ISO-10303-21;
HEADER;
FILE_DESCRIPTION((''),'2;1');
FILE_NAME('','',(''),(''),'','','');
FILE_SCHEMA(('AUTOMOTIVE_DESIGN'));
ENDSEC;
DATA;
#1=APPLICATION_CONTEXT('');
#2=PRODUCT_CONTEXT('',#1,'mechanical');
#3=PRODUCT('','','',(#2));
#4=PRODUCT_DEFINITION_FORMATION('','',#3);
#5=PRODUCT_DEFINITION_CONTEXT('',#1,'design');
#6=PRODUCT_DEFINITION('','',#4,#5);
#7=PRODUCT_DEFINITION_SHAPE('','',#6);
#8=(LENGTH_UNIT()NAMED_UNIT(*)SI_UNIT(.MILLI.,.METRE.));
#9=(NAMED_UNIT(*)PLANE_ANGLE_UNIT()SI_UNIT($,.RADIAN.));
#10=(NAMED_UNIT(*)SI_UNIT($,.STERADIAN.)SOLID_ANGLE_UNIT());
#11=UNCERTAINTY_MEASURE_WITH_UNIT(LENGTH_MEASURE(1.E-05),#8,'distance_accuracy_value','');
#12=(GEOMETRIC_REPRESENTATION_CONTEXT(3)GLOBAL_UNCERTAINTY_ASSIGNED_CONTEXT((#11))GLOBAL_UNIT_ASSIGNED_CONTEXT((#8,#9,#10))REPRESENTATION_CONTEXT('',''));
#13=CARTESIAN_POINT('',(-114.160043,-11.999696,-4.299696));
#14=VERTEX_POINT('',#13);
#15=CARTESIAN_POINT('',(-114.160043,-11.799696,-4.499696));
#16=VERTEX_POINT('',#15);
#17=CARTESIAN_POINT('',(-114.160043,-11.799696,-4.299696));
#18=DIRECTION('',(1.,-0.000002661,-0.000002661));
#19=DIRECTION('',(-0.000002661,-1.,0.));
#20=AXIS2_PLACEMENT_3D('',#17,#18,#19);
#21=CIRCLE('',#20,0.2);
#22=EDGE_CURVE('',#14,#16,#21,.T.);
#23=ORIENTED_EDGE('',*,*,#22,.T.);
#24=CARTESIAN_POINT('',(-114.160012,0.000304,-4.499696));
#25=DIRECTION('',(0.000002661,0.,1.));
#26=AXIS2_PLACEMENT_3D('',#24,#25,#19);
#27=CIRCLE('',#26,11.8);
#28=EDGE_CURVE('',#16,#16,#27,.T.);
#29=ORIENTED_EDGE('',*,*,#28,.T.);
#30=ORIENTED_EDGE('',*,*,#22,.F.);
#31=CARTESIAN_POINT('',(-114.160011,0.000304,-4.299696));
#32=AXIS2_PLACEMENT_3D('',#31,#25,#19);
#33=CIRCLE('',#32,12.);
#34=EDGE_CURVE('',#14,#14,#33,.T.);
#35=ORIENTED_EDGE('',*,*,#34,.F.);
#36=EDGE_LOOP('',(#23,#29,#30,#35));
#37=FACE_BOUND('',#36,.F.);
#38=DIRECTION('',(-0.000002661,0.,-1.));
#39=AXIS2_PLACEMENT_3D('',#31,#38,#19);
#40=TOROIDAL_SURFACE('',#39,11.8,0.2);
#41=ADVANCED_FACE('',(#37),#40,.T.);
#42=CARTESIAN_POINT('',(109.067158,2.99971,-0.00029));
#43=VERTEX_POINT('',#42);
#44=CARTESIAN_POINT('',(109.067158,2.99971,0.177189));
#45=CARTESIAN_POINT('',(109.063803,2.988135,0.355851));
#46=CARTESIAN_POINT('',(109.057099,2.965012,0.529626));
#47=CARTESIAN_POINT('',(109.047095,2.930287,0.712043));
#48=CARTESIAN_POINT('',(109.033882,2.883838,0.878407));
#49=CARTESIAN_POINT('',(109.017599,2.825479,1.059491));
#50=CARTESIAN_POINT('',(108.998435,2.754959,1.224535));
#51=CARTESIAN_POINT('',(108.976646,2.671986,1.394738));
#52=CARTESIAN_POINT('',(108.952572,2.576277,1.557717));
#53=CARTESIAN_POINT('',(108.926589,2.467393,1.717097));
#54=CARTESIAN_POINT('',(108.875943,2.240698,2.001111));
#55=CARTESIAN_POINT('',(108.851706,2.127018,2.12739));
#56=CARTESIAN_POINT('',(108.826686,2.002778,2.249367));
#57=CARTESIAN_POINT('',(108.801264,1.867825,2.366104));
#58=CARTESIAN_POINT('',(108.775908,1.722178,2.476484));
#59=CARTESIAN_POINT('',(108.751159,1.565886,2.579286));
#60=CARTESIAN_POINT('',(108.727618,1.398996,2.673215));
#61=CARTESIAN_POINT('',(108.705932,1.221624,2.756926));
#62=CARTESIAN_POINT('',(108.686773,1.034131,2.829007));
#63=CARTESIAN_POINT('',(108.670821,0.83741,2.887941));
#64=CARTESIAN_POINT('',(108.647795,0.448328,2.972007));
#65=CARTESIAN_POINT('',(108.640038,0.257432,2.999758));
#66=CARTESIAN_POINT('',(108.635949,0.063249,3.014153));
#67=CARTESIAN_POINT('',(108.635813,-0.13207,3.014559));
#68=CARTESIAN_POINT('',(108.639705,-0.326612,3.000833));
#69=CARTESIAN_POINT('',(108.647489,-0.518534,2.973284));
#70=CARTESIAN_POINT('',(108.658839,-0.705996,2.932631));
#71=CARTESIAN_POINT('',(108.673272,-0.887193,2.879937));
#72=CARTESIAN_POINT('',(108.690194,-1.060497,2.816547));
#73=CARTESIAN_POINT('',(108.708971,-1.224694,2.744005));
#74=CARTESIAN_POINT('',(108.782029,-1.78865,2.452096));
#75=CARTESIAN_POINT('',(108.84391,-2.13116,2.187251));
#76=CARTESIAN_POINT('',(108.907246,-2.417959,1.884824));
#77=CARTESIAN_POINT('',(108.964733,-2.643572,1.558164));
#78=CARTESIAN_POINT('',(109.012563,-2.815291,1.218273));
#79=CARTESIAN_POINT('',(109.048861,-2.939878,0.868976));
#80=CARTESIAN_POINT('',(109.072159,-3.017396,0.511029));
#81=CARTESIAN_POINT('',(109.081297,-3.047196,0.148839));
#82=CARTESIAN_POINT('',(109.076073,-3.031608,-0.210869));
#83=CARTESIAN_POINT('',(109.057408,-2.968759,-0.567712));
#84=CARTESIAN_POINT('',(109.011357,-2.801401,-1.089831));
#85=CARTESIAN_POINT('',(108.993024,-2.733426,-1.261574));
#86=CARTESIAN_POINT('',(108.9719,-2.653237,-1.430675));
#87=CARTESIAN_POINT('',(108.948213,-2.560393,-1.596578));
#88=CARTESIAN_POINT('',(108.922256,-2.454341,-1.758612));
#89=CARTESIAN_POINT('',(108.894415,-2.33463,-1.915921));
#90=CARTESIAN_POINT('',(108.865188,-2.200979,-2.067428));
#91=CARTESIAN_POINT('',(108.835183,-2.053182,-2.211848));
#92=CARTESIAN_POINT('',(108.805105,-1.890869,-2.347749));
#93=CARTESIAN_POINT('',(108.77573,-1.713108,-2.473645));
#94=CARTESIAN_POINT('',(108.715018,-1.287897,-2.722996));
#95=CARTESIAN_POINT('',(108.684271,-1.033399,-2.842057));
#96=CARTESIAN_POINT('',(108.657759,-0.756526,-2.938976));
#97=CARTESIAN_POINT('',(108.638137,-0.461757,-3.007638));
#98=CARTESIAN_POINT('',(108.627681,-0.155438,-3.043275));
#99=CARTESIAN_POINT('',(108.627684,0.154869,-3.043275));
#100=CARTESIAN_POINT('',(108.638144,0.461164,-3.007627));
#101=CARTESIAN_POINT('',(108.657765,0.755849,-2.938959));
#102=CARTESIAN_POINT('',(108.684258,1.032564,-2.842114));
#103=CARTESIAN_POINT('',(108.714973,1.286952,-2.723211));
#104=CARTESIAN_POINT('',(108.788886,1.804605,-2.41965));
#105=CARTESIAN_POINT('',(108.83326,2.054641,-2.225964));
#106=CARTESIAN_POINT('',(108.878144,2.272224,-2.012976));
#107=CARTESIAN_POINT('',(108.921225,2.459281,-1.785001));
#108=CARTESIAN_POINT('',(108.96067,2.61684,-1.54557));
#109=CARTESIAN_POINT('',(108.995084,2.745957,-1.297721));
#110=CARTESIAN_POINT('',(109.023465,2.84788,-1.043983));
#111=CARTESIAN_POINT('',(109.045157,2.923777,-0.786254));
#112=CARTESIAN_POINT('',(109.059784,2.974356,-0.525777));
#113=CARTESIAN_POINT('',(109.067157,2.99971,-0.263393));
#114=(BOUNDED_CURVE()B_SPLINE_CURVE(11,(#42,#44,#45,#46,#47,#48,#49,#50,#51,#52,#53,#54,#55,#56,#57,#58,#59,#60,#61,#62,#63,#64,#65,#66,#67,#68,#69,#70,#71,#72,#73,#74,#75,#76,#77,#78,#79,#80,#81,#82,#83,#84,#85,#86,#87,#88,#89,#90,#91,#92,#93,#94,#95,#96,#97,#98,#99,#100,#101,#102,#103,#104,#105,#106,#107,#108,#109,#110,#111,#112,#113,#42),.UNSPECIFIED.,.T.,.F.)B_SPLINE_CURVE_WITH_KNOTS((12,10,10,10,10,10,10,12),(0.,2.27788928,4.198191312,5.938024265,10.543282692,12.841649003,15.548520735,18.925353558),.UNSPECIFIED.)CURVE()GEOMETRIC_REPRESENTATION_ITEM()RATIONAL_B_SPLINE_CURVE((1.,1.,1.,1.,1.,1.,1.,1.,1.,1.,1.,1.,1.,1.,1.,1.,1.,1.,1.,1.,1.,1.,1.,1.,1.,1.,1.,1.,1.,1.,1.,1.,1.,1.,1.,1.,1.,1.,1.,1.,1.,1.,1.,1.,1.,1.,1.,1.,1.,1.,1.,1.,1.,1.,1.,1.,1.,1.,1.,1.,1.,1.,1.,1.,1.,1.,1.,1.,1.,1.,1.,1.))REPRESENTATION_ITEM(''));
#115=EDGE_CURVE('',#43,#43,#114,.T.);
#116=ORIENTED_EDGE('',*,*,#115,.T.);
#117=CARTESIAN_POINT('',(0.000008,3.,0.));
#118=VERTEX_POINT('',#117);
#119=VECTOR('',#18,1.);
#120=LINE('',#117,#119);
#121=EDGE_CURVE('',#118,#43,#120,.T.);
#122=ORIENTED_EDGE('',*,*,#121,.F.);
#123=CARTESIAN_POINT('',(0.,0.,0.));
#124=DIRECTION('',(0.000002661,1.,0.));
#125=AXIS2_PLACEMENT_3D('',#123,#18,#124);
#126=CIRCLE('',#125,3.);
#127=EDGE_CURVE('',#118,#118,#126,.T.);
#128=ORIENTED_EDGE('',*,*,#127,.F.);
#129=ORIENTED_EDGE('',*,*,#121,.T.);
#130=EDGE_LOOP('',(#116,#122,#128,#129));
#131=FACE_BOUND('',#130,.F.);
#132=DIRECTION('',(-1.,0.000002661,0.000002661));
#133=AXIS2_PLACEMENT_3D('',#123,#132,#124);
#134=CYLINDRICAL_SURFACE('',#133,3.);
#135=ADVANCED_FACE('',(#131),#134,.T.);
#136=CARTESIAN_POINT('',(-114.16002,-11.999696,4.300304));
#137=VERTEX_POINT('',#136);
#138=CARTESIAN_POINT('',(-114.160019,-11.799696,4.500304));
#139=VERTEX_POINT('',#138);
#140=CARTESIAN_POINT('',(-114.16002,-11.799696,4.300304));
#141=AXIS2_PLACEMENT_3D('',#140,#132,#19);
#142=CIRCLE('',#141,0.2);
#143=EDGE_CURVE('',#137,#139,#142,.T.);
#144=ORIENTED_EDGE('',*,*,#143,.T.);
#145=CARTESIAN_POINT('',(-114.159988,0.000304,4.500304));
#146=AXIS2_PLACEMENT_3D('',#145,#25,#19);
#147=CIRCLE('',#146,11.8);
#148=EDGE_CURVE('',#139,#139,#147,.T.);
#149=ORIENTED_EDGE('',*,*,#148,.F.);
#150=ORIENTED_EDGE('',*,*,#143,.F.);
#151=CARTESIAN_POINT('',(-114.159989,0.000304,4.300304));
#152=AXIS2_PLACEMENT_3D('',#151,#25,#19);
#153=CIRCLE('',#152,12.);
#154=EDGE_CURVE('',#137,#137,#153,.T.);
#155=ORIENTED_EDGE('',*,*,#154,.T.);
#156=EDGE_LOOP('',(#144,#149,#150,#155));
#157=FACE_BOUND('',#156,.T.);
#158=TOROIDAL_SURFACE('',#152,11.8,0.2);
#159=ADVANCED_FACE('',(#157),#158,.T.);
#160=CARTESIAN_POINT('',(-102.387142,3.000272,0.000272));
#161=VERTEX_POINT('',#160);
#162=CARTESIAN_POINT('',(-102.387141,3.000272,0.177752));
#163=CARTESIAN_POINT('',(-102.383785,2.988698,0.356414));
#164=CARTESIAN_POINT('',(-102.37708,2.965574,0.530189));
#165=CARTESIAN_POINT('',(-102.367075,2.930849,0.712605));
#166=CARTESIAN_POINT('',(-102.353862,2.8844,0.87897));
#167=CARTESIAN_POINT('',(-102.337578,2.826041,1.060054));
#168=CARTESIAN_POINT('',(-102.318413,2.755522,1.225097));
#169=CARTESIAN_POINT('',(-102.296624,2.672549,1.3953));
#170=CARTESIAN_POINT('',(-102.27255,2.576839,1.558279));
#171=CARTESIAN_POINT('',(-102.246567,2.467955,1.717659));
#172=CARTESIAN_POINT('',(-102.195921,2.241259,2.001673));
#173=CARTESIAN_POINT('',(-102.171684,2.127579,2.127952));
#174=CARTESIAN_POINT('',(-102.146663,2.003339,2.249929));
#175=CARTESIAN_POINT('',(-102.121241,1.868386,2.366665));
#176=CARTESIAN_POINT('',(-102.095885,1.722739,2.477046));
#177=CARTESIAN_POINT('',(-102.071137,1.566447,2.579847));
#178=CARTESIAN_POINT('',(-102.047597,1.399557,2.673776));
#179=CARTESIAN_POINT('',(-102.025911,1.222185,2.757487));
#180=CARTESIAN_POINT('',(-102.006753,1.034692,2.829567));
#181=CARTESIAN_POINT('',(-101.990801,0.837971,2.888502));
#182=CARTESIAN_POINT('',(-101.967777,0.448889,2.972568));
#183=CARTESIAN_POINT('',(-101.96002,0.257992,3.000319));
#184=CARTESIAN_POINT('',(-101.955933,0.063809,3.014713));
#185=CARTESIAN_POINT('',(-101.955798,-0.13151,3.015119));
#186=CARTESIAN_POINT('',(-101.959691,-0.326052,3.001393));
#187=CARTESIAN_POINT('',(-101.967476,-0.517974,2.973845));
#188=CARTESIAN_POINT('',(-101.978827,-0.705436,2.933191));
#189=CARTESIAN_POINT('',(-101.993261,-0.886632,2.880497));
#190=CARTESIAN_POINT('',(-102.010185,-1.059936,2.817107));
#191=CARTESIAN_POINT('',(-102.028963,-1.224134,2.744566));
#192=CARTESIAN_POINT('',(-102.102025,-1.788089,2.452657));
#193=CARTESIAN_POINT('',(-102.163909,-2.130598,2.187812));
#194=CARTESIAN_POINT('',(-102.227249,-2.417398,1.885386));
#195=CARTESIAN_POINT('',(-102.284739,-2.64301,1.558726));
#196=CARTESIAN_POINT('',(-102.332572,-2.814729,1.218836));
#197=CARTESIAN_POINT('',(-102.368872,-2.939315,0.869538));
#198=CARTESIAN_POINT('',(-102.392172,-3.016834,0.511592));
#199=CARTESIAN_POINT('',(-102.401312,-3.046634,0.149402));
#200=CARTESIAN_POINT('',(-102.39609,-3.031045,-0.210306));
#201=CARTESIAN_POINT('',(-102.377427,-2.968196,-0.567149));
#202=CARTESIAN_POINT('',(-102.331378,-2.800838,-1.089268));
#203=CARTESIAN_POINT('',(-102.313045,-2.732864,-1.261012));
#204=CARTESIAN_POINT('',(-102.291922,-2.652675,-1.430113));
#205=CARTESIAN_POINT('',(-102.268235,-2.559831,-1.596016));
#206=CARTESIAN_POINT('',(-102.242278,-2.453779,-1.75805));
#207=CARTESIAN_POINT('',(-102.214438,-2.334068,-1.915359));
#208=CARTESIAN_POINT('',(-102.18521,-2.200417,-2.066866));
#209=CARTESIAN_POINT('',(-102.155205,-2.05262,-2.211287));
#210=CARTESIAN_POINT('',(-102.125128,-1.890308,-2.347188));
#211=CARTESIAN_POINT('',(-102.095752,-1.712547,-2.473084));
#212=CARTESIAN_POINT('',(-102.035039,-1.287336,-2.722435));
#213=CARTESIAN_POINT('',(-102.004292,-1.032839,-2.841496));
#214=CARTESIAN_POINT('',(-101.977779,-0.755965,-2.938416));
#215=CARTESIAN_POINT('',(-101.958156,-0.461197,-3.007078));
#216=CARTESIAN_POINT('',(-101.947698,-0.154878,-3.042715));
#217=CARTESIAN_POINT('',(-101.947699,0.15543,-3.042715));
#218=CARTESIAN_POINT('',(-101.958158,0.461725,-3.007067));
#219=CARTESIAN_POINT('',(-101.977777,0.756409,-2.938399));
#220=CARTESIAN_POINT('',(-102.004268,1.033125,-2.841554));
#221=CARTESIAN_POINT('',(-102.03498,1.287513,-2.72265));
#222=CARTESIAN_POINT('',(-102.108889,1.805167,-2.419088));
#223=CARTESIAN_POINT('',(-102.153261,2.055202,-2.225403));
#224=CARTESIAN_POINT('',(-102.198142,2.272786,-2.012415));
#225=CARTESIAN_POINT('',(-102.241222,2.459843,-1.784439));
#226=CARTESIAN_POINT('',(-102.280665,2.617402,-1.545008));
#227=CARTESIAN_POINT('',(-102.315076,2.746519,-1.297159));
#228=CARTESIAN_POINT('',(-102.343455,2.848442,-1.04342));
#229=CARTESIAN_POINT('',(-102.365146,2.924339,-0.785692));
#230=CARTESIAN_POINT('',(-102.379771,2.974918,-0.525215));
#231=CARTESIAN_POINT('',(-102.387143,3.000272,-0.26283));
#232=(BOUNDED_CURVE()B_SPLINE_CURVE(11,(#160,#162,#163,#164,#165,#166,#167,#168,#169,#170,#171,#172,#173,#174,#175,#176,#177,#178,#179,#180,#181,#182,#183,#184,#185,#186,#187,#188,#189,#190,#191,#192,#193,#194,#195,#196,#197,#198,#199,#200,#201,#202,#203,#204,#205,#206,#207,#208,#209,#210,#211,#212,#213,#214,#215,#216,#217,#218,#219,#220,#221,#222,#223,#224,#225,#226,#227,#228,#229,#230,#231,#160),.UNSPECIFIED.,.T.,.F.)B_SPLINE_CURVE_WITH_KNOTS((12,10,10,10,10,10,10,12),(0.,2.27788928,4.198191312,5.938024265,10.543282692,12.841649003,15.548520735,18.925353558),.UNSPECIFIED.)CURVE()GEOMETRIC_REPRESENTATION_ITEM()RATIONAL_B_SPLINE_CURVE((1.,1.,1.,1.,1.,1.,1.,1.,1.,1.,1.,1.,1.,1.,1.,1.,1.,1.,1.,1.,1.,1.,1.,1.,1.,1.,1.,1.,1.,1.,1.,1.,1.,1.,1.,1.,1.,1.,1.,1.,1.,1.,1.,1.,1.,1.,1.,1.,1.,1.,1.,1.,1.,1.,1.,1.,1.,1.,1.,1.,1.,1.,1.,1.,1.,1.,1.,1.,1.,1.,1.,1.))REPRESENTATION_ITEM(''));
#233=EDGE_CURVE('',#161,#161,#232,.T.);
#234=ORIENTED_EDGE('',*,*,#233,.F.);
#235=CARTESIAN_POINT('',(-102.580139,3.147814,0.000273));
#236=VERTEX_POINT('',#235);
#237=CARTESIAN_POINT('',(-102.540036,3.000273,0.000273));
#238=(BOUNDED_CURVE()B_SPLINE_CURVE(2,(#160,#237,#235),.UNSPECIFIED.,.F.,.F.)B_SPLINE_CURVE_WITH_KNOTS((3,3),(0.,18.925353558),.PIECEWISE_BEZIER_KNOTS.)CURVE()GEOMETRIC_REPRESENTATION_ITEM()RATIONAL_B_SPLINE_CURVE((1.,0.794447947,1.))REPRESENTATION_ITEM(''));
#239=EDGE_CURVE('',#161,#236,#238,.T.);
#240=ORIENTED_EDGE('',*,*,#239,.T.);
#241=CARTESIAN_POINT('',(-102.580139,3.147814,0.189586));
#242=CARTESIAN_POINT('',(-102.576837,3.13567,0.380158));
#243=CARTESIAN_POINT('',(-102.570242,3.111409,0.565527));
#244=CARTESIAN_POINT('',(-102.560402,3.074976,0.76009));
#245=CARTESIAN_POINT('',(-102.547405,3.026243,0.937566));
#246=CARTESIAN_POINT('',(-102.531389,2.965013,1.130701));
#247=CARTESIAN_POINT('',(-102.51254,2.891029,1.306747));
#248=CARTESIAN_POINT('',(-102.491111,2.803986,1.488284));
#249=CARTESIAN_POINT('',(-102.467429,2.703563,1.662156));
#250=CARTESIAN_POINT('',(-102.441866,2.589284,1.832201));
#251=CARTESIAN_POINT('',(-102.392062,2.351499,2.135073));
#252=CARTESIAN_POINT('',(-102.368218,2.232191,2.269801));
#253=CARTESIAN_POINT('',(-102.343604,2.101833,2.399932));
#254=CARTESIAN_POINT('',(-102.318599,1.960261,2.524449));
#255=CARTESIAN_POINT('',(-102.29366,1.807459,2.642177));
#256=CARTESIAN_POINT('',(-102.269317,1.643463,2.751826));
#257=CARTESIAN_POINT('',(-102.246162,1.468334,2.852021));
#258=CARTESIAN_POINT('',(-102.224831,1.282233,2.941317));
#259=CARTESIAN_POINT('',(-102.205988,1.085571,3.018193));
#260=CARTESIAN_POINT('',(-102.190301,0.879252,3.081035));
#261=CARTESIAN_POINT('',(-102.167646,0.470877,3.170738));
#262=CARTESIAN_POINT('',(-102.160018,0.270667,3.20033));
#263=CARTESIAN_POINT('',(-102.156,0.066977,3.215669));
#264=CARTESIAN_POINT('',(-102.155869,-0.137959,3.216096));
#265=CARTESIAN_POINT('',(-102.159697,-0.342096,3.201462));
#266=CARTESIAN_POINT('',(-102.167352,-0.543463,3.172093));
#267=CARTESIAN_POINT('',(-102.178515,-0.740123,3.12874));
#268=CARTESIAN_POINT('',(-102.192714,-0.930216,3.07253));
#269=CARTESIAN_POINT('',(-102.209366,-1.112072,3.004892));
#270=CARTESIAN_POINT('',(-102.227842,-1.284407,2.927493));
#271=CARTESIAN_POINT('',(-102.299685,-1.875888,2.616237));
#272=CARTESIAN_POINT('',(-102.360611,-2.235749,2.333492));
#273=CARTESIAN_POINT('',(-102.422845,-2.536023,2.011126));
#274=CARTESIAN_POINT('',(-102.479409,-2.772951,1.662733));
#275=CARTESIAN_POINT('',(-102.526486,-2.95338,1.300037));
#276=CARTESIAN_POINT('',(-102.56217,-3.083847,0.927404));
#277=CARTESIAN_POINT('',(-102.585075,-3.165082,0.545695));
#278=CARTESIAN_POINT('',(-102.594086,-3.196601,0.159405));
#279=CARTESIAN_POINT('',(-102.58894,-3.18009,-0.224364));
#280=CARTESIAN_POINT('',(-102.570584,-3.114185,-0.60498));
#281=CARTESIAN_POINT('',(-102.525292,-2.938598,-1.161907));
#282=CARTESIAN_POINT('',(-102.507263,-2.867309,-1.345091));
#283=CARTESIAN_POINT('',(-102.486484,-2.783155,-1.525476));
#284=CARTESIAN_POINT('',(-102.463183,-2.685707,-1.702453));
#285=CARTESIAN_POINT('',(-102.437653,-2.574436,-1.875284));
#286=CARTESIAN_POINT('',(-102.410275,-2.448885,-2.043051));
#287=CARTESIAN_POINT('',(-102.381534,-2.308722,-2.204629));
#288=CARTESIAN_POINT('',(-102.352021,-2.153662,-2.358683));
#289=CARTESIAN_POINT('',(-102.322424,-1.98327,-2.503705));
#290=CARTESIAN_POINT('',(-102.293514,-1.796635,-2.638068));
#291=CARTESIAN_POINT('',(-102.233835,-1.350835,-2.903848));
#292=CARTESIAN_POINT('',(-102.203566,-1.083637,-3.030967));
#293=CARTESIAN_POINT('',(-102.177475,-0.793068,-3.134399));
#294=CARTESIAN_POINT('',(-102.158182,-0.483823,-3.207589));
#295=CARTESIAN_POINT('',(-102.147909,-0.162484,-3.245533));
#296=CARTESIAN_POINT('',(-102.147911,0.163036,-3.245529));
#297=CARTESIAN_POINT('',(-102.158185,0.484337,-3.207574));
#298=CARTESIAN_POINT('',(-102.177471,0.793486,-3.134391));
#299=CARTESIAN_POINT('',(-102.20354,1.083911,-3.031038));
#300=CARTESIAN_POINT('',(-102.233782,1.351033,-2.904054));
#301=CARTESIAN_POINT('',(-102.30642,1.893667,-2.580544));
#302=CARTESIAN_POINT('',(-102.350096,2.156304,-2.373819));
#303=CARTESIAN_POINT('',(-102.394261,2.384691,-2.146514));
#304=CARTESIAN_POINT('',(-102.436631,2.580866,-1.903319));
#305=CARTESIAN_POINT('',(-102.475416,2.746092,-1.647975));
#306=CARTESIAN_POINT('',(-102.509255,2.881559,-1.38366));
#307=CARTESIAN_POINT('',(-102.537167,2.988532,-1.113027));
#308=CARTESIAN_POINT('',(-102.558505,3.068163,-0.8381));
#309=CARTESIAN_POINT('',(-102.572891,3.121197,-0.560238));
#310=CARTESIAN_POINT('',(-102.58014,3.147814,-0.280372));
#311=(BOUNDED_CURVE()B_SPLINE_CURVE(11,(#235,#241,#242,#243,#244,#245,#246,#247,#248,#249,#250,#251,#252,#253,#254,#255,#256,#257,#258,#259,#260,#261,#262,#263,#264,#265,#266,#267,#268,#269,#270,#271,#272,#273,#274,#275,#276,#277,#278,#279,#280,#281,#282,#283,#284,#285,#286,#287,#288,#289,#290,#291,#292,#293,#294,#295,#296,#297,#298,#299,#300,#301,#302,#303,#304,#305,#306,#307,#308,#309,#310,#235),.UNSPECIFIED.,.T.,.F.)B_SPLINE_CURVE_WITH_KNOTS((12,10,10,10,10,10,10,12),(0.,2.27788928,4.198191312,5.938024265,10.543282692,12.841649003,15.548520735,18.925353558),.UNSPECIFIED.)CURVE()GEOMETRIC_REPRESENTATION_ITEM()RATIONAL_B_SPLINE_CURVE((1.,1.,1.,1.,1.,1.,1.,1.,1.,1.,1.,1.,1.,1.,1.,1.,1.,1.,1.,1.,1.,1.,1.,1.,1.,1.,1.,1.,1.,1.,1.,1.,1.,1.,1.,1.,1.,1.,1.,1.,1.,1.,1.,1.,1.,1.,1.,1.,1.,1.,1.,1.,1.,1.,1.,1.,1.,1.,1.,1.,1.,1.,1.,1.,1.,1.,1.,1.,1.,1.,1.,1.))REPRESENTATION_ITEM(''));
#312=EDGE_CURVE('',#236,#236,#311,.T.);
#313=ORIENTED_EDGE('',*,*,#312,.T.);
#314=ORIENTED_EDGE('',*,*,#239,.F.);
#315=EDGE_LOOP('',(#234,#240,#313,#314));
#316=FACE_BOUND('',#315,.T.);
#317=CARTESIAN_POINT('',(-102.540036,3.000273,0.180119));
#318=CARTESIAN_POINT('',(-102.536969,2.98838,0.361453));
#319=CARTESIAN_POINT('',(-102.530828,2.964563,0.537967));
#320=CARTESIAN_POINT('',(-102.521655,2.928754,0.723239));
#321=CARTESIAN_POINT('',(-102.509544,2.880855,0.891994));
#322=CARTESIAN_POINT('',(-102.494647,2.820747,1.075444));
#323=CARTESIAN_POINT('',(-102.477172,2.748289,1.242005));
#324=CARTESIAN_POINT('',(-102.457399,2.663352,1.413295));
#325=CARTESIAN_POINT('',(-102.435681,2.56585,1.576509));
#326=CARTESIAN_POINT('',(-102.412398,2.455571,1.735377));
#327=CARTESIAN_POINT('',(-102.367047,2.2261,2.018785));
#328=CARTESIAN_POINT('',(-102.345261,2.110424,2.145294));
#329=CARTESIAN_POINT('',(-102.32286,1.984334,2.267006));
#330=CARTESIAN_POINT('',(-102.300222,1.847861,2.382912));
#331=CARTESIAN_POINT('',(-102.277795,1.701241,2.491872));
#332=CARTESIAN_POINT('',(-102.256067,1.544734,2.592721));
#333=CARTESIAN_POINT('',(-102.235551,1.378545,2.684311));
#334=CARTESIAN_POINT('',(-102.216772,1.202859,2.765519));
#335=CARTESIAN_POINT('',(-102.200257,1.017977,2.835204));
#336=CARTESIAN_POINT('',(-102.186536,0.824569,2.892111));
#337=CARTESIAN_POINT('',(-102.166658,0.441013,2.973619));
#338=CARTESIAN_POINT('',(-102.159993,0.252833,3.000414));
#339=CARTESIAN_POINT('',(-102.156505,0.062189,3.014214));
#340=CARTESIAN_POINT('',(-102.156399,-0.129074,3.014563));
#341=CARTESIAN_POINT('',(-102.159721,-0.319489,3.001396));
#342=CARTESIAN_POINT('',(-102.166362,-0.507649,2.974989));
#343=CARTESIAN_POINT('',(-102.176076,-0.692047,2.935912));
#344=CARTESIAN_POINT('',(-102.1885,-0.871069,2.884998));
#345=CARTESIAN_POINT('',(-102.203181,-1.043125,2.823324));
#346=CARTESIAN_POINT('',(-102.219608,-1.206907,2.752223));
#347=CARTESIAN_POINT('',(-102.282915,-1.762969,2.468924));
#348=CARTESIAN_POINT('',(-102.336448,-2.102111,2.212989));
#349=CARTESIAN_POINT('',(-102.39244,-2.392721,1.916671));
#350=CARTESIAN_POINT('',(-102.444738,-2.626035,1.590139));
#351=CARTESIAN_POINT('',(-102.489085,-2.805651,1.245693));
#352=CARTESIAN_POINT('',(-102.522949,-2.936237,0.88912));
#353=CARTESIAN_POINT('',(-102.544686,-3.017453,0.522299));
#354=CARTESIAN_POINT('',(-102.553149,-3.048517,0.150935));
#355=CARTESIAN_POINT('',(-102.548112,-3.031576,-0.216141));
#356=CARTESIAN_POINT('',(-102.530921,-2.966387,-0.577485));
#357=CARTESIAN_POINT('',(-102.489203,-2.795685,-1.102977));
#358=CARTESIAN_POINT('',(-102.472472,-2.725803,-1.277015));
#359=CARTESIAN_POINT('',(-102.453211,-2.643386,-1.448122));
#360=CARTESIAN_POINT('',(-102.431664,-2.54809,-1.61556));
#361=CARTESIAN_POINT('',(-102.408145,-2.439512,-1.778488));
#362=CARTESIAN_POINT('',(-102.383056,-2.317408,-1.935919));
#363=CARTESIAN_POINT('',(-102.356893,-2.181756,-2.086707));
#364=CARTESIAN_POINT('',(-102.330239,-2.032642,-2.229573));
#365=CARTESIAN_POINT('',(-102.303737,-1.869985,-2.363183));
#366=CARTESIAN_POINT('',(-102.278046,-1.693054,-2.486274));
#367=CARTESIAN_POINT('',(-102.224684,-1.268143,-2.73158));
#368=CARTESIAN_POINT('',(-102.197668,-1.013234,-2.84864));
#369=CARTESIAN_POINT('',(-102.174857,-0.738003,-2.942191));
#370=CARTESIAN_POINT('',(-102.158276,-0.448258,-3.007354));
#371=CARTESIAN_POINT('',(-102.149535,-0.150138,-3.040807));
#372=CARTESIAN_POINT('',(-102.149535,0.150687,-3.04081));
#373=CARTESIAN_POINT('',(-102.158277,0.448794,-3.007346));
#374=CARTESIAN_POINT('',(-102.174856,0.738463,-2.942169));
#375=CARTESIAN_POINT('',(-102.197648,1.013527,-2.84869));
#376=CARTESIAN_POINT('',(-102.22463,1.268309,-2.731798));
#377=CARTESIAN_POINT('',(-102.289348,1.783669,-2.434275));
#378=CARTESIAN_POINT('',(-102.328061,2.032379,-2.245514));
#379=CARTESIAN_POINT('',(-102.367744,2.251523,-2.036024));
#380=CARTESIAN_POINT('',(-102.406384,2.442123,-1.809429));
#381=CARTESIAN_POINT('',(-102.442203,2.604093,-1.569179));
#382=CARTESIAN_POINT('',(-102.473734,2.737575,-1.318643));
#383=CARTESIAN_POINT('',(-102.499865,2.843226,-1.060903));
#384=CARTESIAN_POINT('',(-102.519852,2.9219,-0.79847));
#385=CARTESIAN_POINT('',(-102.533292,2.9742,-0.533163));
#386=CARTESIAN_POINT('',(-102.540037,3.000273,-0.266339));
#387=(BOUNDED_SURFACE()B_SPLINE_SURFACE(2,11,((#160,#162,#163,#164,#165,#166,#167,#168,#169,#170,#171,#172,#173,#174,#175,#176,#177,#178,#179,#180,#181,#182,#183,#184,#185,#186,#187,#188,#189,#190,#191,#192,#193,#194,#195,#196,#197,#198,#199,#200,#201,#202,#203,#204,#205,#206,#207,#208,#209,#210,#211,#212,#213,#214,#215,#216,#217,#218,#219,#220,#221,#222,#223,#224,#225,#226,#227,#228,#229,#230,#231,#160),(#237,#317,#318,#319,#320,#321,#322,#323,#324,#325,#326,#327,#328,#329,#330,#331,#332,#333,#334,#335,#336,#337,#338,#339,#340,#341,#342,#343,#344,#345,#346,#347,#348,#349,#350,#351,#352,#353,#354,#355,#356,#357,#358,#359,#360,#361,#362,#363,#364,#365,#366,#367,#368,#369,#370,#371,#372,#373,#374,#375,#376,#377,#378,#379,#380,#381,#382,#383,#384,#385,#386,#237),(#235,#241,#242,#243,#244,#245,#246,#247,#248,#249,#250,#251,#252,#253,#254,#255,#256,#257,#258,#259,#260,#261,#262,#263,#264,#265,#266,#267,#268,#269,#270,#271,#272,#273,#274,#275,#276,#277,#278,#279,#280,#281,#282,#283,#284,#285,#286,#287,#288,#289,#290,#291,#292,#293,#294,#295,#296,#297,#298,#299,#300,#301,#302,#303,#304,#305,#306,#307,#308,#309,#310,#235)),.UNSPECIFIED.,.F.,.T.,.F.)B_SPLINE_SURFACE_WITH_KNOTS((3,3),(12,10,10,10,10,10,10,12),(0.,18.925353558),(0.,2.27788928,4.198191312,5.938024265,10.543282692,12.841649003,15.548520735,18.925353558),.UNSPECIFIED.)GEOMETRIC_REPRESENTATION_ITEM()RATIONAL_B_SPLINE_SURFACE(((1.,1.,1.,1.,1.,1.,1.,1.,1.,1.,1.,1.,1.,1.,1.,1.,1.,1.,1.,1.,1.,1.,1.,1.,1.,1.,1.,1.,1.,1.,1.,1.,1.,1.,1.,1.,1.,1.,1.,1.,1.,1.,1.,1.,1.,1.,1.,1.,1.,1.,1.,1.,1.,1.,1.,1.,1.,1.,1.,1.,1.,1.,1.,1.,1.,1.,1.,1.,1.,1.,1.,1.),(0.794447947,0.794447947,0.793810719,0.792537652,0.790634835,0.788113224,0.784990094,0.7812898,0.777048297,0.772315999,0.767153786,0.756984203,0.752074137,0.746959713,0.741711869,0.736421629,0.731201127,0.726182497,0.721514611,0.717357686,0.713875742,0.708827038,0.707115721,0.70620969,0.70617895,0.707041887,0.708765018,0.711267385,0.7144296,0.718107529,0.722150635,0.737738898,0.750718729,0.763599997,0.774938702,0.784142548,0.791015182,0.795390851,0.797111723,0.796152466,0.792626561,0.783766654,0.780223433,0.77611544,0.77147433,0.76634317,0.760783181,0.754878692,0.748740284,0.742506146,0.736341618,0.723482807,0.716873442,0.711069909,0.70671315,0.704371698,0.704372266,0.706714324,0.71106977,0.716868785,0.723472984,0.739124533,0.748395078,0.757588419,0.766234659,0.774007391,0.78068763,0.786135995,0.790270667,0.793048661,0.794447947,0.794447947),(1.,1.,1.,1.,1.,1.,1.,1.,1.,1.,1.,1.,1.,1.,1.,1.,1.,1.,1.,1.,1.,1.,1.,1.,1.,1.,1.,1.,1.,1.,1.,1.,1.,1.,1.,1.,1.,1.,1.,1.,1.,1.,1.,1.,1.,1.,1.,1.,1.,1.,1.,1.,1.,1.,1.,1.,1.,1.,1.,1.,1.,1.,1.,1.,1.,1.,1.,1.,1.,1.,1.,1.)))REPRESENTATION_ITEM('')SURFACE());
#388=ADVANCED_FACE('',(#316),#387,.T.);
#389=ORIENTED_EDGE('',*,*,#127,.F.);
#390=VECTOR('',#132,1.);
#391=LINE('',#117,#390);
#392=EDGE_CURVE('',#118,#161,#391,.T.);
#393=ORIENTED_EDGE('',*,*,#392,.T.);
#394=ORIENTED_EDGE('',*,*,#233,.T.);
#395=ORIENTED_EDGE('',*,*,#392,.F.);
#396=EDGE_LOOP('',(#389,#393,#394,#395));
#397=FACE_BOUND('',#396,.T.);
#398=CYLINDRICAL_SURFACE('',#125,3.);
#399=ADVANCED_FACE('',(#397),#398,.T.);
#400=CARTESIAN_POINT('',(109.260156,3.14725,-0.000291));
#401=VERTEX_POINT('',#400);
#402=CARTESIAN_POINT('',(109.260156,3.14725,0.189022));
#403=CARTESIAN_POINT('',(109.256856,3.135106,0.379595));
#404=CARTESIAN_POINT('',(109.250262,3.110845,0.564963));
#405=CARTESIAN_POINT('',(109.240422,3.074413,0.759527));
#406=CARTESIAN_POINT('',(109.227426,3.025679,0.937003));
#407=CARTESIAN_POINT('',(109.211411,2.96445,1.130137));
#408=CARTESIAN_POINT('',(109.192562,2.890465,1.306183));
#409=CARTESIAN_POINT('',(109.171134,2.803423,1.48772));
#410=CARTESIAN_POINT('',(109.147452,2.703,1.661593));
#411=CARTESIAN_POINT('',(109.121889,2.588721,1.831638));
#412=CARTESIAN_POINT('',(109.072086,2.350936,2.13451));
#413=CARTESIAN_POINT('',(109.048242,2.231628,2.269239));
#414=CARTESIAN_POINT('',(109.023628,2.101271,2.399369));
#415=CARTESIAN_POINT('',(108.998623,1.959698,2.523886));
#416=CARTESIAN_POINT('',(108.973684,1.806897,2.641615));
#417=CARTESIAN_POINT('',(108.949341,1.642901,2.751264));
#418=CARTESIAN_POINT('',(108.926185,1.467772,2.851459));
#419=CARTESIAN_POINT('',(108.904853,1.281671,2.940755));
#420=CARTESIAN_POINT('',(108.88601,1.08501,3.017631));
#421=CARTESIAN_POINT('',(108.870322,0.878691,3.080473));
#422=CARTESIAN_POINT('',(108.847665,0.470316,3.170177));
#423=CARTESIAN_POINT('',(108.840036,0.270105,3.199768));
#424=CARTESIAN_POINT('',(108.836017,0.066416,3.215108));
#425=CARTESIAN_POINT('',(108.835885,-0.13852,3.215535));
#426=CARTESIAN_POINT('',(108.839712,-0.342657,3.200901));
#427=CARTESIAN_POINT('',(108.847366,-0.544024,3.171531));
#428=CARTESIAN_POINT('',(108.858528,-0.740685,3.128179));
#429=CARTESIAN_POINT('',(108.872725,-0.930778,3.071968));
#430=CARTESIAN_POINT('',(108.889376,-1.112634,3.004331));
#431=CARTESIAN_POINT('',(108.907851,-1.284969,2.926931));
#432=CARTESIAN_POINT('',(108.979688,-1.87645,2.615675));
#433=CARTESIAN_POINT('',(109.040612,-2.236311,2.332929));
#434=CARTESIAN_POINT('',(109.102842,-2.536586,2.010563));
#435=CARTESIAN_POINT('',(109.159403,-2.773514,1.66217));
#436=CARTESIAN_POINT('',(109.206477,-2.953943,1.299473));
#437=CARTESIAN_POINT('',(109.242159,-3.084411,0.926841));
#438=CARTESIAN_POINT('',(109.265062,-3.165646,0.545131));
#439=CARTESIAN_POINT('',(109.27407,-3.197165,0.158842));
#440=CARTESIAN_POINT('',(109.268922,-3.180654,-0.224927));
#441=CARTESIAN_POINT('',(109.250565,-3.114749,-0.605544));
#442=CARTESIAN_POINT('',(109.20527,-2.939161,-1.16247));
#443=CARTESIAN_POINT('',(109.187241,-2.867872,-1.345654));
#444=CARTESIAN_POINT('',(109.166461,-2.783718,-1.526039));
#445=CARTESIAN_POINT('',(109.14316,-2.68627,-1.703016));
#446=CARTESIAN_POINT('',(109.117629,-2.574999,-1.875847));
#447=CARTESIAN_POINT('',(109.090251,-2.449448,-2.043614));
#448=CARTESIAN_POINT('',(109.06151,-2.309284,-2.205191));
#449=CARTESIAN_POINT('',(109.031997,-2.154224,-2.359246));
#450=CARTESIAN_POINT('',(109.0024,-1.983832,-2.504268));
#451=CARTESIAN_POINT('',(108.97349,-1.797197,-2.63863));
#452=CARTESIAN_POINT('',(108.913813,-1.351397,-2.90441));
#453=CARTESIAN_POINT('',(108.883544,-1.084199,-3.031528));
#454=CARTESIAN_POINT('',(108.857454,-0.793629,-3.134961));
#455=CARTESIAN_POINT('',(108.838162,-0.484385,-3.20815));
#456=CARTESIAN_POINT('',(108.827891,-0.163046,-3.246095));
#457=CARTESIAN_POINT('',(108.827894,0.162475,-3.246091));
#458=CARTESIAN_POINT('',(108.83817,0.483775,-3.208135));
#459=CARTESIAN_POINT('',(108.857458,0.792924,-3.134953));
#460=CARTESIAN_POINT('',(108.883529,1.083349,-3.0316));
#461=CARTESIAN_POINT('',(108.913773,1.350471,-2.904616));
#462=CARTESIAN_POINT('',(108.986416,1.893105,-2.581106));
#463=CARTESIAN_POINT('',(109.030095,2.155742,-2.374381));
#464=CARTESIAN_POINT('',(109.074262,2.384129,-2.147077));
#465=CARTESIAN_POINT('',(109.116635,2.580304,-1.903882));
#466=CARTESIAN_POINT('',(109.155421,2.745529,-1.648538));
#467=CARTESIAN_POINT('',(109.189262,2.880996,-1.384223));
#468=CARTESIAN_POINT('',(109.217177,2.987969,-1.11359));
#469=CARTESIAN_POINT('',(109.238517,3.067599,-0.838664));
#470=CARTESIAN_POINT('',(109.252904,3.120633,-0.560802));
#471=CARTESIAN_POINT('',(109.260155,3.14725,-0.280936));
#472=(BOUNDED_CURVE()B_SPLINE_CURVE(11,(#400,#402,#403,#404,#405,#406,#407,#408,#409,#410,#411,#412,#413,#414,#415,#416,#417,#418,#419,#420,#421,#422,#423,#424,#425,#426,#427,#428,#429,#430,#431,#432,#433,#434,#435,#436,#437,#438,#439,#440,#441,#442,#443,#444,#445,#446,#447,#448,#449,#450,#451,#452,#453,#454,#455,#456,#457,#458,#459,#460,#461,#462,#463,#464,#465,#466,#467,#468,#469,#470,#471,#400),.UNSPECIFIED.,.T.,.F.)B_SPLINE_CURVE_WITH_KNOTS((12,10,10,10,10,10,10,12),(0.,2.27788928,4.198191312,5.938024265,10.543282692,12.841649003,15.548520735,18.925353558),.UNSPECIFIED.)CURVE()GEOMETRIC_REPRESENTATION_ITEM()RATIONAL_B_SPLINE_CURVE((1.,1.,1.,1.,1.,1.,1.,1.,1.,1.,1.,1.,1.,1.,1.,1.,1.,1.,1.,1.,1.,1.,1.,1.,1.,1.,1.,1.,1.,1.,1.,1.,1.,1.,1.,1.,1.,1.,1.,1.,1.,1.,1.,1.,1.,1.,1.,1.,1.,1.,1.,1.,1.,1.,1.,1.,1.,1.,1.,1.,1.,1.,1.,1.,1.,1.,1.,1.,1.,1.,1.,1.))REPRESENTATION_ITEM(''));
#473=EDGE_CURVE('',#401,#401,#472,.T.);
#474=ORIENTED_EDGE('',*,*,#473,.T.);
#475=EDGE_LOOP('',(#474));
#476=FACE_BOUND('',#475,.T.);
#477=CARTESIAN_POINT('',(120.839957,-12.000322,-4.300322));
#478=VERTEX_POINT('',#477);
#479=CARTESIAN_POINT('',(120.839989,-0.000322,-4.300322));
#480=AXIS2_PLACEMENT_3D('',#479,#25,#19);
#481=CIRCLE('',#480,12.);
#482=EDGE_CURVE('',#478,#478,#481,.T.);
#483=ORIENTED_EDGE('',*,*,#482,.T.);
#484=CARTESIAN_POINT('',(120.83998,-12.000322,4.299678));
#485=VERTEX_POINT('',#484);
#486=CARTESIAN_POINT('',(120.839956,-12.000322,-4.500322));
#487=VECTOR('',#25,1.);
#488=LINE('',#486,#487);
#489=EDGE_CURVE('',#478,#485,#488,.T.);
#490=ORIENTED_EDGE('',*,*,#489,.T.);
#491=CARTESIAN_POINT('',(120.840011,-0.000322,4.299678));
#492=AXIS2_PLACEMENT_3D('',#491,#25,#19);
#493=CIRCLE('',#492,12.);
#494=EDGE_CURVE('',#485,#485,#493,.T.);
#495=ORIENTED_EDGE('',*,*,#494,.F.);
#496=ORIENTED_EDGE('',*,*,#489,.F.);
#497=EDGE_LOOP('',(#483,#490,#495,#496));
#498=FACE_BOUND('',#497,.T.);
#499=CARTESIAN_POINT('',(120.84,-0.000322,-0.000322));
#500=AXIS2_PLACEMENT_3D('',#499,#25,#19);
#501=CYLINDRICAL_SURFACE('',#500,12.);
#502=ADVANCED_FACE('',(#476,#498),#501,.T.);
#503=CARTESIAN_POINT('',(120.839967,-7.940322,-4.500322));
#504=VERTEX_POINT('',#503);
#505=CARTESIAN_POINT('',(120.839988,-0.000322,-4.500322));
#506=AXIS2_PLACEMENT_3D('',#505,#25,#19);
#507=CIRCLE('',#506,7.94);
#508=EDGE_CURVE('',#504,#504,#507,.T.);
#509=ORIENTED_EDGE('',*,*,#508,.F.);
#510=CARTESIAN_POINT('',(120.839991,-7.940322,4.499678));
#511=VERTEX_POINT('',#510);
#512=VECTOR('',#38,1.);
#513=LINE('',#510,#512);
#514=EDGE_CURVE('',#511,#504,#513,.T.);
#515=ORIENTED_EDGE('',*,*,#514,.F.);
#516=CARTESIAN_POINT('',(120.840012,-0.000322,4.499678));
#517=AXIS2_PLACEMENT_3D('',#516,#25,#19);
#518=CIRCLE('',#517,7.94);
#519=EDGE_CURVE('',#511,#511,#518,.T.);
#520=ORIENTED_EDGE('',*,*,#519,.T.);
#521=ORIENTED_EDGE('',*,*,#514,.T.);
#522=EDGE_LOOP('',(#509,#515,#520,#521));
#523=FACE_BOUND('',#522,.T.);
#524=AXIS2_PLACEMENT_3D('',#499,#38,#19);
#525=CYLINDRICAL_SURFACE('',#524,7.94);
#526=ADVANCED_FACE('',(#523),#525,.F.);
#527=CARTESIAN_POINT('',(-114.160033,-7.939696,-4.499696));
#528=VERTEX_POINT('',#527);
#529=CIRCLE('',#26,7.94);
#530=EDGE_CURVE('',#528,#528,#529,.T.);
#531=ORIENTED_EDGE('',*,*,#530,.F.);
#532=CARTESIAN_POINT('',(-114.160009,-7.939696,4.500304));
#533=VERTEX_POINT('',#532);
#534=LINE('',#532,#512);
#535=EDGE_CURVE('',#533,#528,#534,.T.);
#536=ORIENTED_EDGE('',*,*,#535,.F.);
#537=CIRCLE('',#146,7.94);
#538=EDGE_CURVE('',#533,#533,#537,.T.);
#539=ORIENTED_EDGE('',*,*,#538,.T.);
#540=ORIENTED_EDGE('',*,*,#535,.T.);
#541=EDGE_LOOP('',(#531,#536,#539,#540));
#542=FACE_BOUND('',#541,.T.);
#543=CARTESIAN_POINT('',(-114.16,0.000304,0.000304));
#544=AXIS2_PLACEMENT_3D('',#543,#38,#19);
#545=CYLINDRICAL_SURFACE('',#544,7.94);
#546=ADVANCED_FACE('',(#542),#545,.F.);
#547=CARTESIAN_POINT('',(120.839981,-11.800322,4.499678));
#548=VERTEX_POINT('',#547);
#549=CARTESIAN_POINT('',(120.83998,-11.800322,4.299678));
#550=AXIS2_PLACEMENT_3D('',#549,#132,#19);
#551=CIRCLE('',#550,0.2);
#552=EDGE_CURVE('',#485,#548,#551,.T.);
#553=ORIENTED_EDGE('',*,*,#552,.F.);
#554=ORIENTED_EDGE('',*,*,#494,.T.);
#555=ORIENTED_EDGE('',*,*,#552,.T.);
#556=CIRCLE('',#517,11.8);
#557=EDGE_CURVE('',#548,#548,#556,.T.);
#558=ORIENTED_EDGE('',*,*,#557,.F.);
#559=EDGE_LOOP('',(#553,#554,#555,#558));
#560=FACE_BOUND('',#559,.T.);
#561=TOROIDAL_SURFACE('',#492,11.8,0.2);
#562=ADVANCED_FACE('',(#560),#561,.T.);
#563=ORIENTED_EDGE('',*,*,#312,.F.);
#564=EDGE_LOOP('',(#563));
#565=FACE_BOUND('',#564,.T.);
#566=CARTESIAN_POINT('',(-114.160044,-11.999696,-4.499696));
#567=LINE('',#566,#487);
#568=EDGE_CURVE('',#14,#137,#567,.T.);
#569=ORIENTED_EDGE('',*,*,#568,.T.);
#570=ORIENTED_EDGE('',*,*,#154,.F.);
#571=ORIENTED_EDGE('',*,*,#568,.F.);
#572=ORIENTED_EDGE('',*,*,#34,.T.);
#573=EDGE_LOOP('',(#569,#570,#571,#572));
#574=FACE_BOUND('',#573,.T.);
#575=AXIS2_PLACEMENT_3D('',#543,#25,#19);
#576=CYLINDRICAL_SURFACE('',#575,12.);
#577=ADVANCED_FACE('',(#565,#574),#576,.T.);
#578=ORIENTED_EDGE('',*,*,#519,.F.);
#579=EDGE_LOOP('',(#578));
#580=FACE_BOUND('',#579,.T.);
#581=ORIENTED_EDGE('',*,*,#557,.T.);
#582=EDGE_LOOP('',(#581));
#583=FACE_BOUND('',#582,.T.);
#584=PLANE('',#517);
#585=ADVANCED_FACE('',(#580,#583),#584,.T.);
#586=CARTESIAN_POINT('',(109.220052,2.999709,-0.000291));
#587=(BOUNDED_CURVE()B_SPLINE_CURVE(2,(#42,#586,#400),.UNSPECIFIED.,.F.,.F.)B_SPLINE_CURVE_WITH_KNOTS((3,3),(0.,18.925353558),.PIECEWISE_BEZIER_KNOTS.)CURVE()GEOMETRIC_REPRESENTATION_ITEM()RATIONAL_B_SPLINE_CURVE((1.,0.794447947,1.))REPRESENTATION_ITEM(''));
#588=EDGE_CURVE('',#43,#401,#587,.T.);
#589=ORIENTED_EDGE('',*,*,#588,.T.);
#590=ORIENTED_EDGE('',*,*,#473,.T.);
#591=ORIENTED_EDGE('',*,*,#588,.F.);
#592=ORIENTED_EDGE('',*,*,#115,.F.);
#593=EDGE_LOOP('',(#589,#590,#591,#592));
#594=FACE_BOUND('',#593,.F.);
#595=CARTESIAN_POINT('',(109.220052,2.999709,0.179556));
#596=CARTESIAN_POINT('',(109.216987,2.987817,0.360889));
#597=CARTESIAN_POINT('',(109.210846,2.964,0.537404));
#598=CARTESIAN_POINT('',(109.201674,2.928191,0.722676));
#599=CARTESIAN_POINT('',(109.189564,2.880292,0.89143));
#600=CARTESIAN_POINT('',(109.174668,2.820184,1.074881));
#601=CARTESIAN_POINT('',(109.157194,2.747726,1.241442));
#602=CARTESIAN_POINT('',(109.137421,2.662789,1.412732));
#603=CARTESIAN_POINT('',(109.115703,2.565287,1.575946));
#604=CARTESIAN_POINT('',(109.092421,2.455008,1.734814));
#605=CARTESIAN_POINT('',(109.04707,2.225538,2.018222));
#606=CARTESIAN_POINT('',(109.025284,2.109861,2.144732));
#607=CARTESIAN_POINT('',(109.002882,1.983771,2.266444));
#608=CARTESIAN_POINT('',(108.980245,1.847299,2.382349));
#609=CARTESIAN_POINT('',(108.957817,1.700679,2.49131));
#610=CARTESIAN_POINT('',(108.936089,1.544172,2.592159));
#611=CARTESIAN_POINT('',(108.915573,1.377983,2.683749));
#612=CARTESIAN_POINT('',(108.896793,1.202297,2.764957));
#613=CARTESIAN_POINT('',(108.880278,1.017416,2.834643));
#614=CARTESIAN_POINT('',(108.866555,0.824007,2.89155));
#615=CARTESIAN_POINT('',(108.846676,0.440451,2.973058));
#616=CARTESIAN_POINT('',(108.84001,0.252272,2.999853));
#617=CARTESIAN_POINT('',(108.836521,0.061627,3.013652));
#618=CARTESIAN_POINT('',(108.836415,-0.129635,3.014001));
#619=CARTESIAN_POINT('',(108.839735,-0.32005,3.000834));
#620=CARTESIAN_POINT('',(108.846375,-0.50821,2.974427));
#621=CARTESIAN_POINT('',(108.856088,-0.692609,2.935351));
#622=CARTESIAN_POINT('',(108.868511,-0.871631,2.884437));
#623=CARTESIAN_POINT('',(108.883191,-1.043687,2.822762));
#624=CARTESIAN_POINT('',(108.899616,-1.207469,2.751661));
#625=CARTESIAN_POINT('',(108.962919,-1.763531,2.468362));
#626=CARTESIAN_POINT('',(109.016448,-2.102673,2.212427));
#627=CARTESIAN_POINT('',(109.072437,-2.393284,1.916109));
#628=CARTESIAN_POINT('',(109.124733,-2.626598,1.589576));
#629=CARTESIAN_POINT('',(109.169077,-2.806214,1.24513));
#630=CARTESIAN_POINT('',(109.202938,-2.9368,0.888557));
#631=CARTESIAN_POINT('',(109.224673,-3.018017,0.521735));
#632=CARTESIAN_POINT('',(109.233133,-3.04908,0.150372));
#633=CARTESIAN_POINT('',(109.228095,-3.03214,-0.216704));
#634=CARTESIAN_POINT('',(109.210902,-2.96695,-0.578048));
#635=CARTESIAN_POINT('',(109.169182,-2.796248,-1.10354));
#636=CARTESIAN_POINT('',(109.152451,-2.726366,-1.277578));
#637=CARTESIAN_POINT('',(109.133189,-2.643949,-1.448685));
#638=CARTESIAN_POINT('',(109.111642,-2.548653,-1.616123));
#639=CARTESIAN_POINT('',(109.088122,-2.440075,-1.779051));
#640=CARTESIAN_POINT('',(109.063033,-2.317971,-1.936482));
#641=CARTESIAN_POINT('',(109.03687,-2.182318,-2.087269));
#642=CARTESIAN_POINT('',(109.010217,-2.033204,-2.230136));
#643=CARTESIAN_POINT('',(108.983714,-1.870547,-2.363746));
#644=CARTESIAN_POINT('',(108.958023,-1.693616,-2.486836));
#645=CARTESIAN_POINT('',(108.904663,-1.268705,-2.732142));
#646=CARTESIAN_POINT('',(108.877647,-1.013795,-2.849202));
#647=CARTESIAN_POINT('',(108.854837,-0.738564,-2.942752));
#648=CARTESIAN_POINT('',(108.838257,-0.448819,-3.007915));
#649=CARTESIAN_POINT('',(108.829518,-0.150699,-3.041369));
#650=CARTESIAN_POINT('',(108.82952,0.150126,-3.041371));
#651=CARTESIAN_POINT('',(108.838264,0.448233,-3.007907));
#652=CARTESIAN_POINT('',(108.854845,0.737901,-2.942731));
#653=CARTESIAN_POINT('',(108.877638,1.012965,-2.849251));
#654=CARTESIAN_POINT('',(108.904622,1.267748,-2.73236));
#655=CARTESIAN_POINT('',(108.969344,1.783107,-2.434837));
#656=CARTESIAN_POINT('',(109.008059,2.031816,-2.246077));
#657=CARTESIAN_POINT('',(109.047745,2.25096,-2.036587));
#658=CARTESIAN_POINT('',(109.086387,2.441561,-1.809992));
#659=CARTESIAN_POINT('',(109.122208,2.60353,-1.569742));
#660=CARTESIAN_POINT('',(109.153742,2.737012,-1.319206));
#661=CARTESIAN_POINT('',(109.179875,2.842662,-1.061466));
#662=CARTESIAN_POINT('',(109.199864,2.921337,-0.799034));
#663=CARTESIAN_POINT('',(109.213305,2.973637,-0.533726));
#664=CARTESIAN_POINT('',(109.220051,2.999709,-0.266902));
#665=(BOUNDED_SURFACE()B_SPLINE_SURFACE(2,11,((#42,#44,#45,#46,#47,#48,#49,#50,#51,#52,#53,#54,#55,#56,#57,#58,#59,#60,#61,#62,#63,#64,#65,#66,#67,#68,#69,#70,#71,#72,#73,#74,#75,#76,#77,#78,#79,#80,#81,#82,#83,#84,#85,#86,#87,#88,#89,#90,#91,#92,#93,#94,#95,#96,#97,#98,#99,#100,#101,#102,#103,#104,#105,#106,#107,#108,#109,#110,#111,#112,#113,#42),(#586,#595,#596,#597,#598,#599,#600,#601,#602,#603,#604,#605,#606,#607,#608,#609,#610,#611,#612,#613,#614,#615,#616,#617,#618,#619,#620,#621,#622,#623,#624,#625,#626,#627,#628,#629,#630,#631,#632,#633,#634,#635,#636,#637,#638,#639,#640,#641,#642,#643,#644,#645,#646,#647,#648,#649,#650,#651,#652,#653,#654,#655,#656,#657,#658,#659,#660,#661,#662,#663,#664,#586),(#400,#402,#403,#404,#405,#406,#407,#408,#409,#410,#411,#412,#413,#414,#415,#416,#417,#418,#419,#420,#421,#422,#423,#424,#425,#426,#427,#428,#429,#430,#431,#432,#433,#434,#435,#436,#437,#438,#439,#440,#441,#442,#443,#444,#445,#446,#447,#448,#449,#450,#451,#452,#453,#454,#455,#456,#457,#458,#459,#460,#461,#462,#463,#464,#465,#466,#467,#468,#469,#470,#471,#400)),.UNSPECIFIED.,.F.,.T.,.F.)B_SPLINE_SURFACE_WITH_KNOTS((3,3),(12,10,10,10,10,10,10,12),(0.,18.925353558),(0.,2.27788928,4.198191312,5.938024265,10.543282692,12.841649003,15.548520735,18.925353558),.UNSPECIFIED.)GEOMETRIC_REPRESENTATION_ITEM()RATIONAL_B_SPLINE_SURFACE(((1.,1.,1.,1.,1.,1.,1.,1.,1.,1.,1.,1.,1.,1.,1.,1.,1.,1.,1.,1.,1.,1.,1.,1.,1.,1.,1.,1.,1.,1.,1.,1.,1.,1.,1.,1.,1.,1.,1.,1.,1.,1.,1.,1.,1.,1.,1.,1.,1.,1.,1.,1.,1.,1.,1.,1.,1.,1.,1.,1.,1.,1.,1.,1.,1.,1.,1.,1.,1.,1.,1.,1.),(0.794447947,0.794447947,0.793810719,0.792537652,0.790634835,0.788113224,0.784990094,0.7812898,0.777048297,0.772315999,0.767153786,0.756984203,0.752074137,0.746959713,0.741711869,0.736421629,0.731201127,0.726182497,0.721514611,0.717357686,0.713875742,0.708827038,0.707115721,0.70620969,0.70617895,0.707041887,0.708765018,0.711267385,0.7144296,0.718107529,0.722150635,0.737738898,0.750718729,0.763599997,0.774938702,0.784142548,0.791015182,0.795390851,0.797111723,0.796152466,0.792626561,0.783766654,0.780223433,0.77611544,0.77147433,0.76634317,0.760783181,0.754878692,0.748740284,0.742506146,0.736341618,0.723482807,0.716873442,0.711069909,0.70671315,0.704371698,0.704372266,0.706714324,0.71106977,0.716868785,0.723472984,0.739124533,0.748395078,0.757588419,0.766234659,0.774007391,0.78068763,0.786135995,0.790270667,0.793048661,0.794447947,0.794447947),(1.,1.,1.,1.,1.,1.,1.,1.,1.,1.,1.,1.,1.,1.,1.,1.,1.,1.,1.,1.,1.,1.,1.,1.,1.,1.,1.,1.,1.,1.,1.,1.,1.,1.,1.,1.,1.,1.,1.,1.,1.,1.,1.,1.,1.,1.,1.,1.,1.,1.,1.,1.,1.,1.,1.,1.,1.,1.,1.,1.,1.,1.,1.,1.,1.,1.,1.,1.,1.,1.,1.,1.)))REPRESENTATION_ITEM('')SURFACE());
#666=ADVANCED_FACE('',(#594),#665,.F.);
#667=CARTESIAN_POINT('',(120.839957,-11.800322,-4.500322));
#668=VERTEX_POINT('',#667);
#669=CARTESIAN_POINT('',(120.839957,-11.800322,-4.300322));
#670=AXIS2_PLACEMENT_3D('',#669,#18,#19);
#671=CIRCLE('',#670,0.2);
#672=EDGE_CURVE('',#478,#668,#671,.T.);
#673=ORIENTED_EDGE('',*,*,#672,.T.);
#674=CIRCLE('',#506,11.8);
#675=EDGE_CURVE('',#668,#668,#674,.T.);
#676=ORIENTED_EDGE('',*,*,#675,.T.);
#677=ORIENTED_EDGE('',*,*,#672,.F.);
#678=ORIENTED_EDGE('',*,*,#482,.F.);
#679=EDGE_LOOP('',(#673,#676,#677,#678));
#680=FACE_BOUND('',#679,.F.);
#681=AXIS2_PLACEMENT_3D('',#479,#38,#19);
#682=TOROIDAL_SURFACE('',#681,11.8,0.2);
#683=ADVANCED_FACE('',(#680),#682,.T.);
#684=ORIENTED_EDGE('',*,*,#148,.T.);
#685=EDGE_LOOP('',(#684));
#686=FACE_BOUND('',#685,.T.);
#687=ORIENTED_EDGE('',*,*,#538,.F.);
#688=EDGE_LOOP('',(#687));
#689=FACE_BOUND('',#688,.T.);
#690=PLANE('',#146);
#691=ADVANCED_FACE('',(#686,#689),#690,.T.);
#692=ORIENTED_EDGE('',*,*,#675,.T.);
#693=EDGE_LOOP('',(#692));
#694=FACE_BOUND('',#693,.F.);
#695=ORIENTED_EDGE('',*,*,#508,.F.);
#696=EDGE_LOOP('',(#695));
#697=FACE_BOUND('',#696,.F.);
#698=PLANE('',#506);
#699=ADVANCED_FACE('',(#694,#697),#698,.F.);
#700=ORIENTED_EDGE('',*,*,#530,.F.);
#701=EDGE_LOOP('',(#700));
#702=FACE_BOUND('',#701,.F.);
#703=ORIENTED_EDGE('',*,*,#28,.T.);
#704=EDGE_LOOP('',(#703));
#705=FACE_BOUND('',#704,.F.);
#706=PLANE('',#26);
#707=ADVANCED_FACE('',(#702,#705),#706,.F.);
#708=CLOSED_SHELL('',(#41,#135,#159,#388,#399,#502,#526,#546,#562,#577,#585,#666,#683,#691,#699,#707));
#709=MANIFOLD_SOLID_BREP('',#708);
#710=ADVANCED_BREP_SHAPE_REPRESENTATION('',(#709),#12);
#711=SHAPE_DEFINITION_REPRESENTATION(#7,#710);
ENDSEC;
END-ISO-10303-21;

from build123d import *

# Parameters (mm, degrees)
SKETCH1_R                            = 12
SKETCH1_R_2                          = 7.94
BOSS_EXTRUDE1_DEPTH                  = 4.5
BOSS_EXTRUDE1_2_DEPTH                = 4.5
BOSS_EXTRUDE2_REACH                  = 135.457
BOSS_EXTRUDE2_END_RADIUS             = 12
SKETCH3_R                            = 3
BOSS_EXTRUDE2_DIRECTION_2_REACH      = 135.457
BOSS_EXTRUDE2_DIRECTION_2_END_RADIUS = 12
FILLET1_R                            = 0.2
BODY_MOVE_COPY2_ANGLE                = 90


with BuildPart() as part:
    # Sketch1 → Boss-Extrude1 (new, symmetric)
    with BuildSketch(Plane(origin=(0, 0, 0), x_dir=(1, 0, 0), z_dir=(0, 1, 0))):
        with Locations(Location((-114.16, 0, 0), (0, 0, 270))):
            Circle(SKETCH1_R)
        with Locations(Location((-114.16, 0, 0), (0, 0, 270))):
            Circle(SKETCH1_R_2, mode=Mode.SUBTRACT)
    extrude(amount=BOSS_EXTRUDE1_DEPTH, both=True)



with BuildPart() as body_2:
    # Sketch1 → Boss-Extrude1 2 (new, symmetric)
    with BuildSketch(Plane(origin=(0, 0, 0), x_dir=(1, 0, 0), z_dir=(0, 1, 0))):
        with Locations(Location((120.84, 0, 0), (0, 0, 270))):
            Circle(SKETCH1_R)
        with Locations(Location((120.84, 0, 0), (0, 0, 270))):
            Circle(SKETCH1_R_2, mode=Mode.SUBTRACT)
    extrude(amount=BOSS_EXTRUDE1_2_DEPTH, both=True)


with BuildPart() as part_1:
    add(part.part)

    add(body_2.part)  # Boss-Extrude2 merges body 2
    # Boss-Extrude2: up to this cylinder (the profile starts outside it)
    boss_extrude2_end = Plane(origin=(120.84, 0, 0), z_dir=(0, -1, 0)) * Cylinder(BOSS_EXTRUDE2_END_RADIUS, 295.914, mode=Mode.PRIVATE)
    # Sketch3 → Boss-Extrude2 (add, up to the surface)
    with BuildSketch(Plane(origin=(0, 0, 0), x_dir=(0, 0, -1), z_dir=(1, 0, 0)), mode=Mode.PRIVATE) as boss_extrude2_sk1:
        Circle(SKETCH3_R)
    boss_extrude2_tool1 = extrude(boss_extrude2_sk1.sketch, amount=BOSS_EXTRUDE2_REACH, mode=Mode.PRIVATE) - boss_extrude2_end
    add(boss_extrude2_tool1.solids().sort_by_distance((0, 0, 0))[0])

    # Boss-Extrude2 direction 2: up to this cylinder (the profile starts outside it)
    boss_extrude2_direction_2_end = Plane(origin=(-114.16, 0, 0), z_dir=(0, -1, 0)) * Cylinder(BOSS_EXTRUDE2_DIRECTION_2_END_RADIUS, 295.914, mode=Mode.PRIVATE)
    # Sketch3 → Boss-Extrude2 direction 2 (add, up to the surface)
    with BuildSketch(Plane(origin=(0, 0, 0), x_dir=(0, 0, -1), z_dir=(1, 0, 0)), mode=Mode.PRIVATE) as boss_extrude2_direction_2_sk1:
        Circle(SKETCH3_R)
    boss_extrude2_direction_2_tool1 = extrude(boss_extrude2_direction_2_sk1.sketch, amount=-BOSS_EXTRUDE2_DIRECTION_2_REACH, mode=Mode.PRIVATE) - boss_extrude2_direction_2_end
    add(boss_extrude2_direction_2_tool1.solids().sort_by_distance((0, 0, 0))[0])

    # Fillet1
    fillet1_edges = [part_1.edges().sort_by_distance(p)[0] for p in [
        (-102.541049963, 0, 3.000000015),
        (109.221049963, 0, 3.000000015),
        (120.84, 4.5, -12),
        (120.84, -4.5, -12),
        (-114.16, -4.5, -12),
        (-114.16, 4.5, -12),
    ]]
    fillet(fillet1_edges, radius=FILLET1_R)


with BuildPart() as part_2:
    # Body-Move/Copy2: moved
    add(part_1.part.rotate(Axis((0, 0, 0), (0.9999999999964604, 0, -2.660711581397482e-06)), BODY_MOVE_COPY2_ANGLE))


solid = part_2.part
